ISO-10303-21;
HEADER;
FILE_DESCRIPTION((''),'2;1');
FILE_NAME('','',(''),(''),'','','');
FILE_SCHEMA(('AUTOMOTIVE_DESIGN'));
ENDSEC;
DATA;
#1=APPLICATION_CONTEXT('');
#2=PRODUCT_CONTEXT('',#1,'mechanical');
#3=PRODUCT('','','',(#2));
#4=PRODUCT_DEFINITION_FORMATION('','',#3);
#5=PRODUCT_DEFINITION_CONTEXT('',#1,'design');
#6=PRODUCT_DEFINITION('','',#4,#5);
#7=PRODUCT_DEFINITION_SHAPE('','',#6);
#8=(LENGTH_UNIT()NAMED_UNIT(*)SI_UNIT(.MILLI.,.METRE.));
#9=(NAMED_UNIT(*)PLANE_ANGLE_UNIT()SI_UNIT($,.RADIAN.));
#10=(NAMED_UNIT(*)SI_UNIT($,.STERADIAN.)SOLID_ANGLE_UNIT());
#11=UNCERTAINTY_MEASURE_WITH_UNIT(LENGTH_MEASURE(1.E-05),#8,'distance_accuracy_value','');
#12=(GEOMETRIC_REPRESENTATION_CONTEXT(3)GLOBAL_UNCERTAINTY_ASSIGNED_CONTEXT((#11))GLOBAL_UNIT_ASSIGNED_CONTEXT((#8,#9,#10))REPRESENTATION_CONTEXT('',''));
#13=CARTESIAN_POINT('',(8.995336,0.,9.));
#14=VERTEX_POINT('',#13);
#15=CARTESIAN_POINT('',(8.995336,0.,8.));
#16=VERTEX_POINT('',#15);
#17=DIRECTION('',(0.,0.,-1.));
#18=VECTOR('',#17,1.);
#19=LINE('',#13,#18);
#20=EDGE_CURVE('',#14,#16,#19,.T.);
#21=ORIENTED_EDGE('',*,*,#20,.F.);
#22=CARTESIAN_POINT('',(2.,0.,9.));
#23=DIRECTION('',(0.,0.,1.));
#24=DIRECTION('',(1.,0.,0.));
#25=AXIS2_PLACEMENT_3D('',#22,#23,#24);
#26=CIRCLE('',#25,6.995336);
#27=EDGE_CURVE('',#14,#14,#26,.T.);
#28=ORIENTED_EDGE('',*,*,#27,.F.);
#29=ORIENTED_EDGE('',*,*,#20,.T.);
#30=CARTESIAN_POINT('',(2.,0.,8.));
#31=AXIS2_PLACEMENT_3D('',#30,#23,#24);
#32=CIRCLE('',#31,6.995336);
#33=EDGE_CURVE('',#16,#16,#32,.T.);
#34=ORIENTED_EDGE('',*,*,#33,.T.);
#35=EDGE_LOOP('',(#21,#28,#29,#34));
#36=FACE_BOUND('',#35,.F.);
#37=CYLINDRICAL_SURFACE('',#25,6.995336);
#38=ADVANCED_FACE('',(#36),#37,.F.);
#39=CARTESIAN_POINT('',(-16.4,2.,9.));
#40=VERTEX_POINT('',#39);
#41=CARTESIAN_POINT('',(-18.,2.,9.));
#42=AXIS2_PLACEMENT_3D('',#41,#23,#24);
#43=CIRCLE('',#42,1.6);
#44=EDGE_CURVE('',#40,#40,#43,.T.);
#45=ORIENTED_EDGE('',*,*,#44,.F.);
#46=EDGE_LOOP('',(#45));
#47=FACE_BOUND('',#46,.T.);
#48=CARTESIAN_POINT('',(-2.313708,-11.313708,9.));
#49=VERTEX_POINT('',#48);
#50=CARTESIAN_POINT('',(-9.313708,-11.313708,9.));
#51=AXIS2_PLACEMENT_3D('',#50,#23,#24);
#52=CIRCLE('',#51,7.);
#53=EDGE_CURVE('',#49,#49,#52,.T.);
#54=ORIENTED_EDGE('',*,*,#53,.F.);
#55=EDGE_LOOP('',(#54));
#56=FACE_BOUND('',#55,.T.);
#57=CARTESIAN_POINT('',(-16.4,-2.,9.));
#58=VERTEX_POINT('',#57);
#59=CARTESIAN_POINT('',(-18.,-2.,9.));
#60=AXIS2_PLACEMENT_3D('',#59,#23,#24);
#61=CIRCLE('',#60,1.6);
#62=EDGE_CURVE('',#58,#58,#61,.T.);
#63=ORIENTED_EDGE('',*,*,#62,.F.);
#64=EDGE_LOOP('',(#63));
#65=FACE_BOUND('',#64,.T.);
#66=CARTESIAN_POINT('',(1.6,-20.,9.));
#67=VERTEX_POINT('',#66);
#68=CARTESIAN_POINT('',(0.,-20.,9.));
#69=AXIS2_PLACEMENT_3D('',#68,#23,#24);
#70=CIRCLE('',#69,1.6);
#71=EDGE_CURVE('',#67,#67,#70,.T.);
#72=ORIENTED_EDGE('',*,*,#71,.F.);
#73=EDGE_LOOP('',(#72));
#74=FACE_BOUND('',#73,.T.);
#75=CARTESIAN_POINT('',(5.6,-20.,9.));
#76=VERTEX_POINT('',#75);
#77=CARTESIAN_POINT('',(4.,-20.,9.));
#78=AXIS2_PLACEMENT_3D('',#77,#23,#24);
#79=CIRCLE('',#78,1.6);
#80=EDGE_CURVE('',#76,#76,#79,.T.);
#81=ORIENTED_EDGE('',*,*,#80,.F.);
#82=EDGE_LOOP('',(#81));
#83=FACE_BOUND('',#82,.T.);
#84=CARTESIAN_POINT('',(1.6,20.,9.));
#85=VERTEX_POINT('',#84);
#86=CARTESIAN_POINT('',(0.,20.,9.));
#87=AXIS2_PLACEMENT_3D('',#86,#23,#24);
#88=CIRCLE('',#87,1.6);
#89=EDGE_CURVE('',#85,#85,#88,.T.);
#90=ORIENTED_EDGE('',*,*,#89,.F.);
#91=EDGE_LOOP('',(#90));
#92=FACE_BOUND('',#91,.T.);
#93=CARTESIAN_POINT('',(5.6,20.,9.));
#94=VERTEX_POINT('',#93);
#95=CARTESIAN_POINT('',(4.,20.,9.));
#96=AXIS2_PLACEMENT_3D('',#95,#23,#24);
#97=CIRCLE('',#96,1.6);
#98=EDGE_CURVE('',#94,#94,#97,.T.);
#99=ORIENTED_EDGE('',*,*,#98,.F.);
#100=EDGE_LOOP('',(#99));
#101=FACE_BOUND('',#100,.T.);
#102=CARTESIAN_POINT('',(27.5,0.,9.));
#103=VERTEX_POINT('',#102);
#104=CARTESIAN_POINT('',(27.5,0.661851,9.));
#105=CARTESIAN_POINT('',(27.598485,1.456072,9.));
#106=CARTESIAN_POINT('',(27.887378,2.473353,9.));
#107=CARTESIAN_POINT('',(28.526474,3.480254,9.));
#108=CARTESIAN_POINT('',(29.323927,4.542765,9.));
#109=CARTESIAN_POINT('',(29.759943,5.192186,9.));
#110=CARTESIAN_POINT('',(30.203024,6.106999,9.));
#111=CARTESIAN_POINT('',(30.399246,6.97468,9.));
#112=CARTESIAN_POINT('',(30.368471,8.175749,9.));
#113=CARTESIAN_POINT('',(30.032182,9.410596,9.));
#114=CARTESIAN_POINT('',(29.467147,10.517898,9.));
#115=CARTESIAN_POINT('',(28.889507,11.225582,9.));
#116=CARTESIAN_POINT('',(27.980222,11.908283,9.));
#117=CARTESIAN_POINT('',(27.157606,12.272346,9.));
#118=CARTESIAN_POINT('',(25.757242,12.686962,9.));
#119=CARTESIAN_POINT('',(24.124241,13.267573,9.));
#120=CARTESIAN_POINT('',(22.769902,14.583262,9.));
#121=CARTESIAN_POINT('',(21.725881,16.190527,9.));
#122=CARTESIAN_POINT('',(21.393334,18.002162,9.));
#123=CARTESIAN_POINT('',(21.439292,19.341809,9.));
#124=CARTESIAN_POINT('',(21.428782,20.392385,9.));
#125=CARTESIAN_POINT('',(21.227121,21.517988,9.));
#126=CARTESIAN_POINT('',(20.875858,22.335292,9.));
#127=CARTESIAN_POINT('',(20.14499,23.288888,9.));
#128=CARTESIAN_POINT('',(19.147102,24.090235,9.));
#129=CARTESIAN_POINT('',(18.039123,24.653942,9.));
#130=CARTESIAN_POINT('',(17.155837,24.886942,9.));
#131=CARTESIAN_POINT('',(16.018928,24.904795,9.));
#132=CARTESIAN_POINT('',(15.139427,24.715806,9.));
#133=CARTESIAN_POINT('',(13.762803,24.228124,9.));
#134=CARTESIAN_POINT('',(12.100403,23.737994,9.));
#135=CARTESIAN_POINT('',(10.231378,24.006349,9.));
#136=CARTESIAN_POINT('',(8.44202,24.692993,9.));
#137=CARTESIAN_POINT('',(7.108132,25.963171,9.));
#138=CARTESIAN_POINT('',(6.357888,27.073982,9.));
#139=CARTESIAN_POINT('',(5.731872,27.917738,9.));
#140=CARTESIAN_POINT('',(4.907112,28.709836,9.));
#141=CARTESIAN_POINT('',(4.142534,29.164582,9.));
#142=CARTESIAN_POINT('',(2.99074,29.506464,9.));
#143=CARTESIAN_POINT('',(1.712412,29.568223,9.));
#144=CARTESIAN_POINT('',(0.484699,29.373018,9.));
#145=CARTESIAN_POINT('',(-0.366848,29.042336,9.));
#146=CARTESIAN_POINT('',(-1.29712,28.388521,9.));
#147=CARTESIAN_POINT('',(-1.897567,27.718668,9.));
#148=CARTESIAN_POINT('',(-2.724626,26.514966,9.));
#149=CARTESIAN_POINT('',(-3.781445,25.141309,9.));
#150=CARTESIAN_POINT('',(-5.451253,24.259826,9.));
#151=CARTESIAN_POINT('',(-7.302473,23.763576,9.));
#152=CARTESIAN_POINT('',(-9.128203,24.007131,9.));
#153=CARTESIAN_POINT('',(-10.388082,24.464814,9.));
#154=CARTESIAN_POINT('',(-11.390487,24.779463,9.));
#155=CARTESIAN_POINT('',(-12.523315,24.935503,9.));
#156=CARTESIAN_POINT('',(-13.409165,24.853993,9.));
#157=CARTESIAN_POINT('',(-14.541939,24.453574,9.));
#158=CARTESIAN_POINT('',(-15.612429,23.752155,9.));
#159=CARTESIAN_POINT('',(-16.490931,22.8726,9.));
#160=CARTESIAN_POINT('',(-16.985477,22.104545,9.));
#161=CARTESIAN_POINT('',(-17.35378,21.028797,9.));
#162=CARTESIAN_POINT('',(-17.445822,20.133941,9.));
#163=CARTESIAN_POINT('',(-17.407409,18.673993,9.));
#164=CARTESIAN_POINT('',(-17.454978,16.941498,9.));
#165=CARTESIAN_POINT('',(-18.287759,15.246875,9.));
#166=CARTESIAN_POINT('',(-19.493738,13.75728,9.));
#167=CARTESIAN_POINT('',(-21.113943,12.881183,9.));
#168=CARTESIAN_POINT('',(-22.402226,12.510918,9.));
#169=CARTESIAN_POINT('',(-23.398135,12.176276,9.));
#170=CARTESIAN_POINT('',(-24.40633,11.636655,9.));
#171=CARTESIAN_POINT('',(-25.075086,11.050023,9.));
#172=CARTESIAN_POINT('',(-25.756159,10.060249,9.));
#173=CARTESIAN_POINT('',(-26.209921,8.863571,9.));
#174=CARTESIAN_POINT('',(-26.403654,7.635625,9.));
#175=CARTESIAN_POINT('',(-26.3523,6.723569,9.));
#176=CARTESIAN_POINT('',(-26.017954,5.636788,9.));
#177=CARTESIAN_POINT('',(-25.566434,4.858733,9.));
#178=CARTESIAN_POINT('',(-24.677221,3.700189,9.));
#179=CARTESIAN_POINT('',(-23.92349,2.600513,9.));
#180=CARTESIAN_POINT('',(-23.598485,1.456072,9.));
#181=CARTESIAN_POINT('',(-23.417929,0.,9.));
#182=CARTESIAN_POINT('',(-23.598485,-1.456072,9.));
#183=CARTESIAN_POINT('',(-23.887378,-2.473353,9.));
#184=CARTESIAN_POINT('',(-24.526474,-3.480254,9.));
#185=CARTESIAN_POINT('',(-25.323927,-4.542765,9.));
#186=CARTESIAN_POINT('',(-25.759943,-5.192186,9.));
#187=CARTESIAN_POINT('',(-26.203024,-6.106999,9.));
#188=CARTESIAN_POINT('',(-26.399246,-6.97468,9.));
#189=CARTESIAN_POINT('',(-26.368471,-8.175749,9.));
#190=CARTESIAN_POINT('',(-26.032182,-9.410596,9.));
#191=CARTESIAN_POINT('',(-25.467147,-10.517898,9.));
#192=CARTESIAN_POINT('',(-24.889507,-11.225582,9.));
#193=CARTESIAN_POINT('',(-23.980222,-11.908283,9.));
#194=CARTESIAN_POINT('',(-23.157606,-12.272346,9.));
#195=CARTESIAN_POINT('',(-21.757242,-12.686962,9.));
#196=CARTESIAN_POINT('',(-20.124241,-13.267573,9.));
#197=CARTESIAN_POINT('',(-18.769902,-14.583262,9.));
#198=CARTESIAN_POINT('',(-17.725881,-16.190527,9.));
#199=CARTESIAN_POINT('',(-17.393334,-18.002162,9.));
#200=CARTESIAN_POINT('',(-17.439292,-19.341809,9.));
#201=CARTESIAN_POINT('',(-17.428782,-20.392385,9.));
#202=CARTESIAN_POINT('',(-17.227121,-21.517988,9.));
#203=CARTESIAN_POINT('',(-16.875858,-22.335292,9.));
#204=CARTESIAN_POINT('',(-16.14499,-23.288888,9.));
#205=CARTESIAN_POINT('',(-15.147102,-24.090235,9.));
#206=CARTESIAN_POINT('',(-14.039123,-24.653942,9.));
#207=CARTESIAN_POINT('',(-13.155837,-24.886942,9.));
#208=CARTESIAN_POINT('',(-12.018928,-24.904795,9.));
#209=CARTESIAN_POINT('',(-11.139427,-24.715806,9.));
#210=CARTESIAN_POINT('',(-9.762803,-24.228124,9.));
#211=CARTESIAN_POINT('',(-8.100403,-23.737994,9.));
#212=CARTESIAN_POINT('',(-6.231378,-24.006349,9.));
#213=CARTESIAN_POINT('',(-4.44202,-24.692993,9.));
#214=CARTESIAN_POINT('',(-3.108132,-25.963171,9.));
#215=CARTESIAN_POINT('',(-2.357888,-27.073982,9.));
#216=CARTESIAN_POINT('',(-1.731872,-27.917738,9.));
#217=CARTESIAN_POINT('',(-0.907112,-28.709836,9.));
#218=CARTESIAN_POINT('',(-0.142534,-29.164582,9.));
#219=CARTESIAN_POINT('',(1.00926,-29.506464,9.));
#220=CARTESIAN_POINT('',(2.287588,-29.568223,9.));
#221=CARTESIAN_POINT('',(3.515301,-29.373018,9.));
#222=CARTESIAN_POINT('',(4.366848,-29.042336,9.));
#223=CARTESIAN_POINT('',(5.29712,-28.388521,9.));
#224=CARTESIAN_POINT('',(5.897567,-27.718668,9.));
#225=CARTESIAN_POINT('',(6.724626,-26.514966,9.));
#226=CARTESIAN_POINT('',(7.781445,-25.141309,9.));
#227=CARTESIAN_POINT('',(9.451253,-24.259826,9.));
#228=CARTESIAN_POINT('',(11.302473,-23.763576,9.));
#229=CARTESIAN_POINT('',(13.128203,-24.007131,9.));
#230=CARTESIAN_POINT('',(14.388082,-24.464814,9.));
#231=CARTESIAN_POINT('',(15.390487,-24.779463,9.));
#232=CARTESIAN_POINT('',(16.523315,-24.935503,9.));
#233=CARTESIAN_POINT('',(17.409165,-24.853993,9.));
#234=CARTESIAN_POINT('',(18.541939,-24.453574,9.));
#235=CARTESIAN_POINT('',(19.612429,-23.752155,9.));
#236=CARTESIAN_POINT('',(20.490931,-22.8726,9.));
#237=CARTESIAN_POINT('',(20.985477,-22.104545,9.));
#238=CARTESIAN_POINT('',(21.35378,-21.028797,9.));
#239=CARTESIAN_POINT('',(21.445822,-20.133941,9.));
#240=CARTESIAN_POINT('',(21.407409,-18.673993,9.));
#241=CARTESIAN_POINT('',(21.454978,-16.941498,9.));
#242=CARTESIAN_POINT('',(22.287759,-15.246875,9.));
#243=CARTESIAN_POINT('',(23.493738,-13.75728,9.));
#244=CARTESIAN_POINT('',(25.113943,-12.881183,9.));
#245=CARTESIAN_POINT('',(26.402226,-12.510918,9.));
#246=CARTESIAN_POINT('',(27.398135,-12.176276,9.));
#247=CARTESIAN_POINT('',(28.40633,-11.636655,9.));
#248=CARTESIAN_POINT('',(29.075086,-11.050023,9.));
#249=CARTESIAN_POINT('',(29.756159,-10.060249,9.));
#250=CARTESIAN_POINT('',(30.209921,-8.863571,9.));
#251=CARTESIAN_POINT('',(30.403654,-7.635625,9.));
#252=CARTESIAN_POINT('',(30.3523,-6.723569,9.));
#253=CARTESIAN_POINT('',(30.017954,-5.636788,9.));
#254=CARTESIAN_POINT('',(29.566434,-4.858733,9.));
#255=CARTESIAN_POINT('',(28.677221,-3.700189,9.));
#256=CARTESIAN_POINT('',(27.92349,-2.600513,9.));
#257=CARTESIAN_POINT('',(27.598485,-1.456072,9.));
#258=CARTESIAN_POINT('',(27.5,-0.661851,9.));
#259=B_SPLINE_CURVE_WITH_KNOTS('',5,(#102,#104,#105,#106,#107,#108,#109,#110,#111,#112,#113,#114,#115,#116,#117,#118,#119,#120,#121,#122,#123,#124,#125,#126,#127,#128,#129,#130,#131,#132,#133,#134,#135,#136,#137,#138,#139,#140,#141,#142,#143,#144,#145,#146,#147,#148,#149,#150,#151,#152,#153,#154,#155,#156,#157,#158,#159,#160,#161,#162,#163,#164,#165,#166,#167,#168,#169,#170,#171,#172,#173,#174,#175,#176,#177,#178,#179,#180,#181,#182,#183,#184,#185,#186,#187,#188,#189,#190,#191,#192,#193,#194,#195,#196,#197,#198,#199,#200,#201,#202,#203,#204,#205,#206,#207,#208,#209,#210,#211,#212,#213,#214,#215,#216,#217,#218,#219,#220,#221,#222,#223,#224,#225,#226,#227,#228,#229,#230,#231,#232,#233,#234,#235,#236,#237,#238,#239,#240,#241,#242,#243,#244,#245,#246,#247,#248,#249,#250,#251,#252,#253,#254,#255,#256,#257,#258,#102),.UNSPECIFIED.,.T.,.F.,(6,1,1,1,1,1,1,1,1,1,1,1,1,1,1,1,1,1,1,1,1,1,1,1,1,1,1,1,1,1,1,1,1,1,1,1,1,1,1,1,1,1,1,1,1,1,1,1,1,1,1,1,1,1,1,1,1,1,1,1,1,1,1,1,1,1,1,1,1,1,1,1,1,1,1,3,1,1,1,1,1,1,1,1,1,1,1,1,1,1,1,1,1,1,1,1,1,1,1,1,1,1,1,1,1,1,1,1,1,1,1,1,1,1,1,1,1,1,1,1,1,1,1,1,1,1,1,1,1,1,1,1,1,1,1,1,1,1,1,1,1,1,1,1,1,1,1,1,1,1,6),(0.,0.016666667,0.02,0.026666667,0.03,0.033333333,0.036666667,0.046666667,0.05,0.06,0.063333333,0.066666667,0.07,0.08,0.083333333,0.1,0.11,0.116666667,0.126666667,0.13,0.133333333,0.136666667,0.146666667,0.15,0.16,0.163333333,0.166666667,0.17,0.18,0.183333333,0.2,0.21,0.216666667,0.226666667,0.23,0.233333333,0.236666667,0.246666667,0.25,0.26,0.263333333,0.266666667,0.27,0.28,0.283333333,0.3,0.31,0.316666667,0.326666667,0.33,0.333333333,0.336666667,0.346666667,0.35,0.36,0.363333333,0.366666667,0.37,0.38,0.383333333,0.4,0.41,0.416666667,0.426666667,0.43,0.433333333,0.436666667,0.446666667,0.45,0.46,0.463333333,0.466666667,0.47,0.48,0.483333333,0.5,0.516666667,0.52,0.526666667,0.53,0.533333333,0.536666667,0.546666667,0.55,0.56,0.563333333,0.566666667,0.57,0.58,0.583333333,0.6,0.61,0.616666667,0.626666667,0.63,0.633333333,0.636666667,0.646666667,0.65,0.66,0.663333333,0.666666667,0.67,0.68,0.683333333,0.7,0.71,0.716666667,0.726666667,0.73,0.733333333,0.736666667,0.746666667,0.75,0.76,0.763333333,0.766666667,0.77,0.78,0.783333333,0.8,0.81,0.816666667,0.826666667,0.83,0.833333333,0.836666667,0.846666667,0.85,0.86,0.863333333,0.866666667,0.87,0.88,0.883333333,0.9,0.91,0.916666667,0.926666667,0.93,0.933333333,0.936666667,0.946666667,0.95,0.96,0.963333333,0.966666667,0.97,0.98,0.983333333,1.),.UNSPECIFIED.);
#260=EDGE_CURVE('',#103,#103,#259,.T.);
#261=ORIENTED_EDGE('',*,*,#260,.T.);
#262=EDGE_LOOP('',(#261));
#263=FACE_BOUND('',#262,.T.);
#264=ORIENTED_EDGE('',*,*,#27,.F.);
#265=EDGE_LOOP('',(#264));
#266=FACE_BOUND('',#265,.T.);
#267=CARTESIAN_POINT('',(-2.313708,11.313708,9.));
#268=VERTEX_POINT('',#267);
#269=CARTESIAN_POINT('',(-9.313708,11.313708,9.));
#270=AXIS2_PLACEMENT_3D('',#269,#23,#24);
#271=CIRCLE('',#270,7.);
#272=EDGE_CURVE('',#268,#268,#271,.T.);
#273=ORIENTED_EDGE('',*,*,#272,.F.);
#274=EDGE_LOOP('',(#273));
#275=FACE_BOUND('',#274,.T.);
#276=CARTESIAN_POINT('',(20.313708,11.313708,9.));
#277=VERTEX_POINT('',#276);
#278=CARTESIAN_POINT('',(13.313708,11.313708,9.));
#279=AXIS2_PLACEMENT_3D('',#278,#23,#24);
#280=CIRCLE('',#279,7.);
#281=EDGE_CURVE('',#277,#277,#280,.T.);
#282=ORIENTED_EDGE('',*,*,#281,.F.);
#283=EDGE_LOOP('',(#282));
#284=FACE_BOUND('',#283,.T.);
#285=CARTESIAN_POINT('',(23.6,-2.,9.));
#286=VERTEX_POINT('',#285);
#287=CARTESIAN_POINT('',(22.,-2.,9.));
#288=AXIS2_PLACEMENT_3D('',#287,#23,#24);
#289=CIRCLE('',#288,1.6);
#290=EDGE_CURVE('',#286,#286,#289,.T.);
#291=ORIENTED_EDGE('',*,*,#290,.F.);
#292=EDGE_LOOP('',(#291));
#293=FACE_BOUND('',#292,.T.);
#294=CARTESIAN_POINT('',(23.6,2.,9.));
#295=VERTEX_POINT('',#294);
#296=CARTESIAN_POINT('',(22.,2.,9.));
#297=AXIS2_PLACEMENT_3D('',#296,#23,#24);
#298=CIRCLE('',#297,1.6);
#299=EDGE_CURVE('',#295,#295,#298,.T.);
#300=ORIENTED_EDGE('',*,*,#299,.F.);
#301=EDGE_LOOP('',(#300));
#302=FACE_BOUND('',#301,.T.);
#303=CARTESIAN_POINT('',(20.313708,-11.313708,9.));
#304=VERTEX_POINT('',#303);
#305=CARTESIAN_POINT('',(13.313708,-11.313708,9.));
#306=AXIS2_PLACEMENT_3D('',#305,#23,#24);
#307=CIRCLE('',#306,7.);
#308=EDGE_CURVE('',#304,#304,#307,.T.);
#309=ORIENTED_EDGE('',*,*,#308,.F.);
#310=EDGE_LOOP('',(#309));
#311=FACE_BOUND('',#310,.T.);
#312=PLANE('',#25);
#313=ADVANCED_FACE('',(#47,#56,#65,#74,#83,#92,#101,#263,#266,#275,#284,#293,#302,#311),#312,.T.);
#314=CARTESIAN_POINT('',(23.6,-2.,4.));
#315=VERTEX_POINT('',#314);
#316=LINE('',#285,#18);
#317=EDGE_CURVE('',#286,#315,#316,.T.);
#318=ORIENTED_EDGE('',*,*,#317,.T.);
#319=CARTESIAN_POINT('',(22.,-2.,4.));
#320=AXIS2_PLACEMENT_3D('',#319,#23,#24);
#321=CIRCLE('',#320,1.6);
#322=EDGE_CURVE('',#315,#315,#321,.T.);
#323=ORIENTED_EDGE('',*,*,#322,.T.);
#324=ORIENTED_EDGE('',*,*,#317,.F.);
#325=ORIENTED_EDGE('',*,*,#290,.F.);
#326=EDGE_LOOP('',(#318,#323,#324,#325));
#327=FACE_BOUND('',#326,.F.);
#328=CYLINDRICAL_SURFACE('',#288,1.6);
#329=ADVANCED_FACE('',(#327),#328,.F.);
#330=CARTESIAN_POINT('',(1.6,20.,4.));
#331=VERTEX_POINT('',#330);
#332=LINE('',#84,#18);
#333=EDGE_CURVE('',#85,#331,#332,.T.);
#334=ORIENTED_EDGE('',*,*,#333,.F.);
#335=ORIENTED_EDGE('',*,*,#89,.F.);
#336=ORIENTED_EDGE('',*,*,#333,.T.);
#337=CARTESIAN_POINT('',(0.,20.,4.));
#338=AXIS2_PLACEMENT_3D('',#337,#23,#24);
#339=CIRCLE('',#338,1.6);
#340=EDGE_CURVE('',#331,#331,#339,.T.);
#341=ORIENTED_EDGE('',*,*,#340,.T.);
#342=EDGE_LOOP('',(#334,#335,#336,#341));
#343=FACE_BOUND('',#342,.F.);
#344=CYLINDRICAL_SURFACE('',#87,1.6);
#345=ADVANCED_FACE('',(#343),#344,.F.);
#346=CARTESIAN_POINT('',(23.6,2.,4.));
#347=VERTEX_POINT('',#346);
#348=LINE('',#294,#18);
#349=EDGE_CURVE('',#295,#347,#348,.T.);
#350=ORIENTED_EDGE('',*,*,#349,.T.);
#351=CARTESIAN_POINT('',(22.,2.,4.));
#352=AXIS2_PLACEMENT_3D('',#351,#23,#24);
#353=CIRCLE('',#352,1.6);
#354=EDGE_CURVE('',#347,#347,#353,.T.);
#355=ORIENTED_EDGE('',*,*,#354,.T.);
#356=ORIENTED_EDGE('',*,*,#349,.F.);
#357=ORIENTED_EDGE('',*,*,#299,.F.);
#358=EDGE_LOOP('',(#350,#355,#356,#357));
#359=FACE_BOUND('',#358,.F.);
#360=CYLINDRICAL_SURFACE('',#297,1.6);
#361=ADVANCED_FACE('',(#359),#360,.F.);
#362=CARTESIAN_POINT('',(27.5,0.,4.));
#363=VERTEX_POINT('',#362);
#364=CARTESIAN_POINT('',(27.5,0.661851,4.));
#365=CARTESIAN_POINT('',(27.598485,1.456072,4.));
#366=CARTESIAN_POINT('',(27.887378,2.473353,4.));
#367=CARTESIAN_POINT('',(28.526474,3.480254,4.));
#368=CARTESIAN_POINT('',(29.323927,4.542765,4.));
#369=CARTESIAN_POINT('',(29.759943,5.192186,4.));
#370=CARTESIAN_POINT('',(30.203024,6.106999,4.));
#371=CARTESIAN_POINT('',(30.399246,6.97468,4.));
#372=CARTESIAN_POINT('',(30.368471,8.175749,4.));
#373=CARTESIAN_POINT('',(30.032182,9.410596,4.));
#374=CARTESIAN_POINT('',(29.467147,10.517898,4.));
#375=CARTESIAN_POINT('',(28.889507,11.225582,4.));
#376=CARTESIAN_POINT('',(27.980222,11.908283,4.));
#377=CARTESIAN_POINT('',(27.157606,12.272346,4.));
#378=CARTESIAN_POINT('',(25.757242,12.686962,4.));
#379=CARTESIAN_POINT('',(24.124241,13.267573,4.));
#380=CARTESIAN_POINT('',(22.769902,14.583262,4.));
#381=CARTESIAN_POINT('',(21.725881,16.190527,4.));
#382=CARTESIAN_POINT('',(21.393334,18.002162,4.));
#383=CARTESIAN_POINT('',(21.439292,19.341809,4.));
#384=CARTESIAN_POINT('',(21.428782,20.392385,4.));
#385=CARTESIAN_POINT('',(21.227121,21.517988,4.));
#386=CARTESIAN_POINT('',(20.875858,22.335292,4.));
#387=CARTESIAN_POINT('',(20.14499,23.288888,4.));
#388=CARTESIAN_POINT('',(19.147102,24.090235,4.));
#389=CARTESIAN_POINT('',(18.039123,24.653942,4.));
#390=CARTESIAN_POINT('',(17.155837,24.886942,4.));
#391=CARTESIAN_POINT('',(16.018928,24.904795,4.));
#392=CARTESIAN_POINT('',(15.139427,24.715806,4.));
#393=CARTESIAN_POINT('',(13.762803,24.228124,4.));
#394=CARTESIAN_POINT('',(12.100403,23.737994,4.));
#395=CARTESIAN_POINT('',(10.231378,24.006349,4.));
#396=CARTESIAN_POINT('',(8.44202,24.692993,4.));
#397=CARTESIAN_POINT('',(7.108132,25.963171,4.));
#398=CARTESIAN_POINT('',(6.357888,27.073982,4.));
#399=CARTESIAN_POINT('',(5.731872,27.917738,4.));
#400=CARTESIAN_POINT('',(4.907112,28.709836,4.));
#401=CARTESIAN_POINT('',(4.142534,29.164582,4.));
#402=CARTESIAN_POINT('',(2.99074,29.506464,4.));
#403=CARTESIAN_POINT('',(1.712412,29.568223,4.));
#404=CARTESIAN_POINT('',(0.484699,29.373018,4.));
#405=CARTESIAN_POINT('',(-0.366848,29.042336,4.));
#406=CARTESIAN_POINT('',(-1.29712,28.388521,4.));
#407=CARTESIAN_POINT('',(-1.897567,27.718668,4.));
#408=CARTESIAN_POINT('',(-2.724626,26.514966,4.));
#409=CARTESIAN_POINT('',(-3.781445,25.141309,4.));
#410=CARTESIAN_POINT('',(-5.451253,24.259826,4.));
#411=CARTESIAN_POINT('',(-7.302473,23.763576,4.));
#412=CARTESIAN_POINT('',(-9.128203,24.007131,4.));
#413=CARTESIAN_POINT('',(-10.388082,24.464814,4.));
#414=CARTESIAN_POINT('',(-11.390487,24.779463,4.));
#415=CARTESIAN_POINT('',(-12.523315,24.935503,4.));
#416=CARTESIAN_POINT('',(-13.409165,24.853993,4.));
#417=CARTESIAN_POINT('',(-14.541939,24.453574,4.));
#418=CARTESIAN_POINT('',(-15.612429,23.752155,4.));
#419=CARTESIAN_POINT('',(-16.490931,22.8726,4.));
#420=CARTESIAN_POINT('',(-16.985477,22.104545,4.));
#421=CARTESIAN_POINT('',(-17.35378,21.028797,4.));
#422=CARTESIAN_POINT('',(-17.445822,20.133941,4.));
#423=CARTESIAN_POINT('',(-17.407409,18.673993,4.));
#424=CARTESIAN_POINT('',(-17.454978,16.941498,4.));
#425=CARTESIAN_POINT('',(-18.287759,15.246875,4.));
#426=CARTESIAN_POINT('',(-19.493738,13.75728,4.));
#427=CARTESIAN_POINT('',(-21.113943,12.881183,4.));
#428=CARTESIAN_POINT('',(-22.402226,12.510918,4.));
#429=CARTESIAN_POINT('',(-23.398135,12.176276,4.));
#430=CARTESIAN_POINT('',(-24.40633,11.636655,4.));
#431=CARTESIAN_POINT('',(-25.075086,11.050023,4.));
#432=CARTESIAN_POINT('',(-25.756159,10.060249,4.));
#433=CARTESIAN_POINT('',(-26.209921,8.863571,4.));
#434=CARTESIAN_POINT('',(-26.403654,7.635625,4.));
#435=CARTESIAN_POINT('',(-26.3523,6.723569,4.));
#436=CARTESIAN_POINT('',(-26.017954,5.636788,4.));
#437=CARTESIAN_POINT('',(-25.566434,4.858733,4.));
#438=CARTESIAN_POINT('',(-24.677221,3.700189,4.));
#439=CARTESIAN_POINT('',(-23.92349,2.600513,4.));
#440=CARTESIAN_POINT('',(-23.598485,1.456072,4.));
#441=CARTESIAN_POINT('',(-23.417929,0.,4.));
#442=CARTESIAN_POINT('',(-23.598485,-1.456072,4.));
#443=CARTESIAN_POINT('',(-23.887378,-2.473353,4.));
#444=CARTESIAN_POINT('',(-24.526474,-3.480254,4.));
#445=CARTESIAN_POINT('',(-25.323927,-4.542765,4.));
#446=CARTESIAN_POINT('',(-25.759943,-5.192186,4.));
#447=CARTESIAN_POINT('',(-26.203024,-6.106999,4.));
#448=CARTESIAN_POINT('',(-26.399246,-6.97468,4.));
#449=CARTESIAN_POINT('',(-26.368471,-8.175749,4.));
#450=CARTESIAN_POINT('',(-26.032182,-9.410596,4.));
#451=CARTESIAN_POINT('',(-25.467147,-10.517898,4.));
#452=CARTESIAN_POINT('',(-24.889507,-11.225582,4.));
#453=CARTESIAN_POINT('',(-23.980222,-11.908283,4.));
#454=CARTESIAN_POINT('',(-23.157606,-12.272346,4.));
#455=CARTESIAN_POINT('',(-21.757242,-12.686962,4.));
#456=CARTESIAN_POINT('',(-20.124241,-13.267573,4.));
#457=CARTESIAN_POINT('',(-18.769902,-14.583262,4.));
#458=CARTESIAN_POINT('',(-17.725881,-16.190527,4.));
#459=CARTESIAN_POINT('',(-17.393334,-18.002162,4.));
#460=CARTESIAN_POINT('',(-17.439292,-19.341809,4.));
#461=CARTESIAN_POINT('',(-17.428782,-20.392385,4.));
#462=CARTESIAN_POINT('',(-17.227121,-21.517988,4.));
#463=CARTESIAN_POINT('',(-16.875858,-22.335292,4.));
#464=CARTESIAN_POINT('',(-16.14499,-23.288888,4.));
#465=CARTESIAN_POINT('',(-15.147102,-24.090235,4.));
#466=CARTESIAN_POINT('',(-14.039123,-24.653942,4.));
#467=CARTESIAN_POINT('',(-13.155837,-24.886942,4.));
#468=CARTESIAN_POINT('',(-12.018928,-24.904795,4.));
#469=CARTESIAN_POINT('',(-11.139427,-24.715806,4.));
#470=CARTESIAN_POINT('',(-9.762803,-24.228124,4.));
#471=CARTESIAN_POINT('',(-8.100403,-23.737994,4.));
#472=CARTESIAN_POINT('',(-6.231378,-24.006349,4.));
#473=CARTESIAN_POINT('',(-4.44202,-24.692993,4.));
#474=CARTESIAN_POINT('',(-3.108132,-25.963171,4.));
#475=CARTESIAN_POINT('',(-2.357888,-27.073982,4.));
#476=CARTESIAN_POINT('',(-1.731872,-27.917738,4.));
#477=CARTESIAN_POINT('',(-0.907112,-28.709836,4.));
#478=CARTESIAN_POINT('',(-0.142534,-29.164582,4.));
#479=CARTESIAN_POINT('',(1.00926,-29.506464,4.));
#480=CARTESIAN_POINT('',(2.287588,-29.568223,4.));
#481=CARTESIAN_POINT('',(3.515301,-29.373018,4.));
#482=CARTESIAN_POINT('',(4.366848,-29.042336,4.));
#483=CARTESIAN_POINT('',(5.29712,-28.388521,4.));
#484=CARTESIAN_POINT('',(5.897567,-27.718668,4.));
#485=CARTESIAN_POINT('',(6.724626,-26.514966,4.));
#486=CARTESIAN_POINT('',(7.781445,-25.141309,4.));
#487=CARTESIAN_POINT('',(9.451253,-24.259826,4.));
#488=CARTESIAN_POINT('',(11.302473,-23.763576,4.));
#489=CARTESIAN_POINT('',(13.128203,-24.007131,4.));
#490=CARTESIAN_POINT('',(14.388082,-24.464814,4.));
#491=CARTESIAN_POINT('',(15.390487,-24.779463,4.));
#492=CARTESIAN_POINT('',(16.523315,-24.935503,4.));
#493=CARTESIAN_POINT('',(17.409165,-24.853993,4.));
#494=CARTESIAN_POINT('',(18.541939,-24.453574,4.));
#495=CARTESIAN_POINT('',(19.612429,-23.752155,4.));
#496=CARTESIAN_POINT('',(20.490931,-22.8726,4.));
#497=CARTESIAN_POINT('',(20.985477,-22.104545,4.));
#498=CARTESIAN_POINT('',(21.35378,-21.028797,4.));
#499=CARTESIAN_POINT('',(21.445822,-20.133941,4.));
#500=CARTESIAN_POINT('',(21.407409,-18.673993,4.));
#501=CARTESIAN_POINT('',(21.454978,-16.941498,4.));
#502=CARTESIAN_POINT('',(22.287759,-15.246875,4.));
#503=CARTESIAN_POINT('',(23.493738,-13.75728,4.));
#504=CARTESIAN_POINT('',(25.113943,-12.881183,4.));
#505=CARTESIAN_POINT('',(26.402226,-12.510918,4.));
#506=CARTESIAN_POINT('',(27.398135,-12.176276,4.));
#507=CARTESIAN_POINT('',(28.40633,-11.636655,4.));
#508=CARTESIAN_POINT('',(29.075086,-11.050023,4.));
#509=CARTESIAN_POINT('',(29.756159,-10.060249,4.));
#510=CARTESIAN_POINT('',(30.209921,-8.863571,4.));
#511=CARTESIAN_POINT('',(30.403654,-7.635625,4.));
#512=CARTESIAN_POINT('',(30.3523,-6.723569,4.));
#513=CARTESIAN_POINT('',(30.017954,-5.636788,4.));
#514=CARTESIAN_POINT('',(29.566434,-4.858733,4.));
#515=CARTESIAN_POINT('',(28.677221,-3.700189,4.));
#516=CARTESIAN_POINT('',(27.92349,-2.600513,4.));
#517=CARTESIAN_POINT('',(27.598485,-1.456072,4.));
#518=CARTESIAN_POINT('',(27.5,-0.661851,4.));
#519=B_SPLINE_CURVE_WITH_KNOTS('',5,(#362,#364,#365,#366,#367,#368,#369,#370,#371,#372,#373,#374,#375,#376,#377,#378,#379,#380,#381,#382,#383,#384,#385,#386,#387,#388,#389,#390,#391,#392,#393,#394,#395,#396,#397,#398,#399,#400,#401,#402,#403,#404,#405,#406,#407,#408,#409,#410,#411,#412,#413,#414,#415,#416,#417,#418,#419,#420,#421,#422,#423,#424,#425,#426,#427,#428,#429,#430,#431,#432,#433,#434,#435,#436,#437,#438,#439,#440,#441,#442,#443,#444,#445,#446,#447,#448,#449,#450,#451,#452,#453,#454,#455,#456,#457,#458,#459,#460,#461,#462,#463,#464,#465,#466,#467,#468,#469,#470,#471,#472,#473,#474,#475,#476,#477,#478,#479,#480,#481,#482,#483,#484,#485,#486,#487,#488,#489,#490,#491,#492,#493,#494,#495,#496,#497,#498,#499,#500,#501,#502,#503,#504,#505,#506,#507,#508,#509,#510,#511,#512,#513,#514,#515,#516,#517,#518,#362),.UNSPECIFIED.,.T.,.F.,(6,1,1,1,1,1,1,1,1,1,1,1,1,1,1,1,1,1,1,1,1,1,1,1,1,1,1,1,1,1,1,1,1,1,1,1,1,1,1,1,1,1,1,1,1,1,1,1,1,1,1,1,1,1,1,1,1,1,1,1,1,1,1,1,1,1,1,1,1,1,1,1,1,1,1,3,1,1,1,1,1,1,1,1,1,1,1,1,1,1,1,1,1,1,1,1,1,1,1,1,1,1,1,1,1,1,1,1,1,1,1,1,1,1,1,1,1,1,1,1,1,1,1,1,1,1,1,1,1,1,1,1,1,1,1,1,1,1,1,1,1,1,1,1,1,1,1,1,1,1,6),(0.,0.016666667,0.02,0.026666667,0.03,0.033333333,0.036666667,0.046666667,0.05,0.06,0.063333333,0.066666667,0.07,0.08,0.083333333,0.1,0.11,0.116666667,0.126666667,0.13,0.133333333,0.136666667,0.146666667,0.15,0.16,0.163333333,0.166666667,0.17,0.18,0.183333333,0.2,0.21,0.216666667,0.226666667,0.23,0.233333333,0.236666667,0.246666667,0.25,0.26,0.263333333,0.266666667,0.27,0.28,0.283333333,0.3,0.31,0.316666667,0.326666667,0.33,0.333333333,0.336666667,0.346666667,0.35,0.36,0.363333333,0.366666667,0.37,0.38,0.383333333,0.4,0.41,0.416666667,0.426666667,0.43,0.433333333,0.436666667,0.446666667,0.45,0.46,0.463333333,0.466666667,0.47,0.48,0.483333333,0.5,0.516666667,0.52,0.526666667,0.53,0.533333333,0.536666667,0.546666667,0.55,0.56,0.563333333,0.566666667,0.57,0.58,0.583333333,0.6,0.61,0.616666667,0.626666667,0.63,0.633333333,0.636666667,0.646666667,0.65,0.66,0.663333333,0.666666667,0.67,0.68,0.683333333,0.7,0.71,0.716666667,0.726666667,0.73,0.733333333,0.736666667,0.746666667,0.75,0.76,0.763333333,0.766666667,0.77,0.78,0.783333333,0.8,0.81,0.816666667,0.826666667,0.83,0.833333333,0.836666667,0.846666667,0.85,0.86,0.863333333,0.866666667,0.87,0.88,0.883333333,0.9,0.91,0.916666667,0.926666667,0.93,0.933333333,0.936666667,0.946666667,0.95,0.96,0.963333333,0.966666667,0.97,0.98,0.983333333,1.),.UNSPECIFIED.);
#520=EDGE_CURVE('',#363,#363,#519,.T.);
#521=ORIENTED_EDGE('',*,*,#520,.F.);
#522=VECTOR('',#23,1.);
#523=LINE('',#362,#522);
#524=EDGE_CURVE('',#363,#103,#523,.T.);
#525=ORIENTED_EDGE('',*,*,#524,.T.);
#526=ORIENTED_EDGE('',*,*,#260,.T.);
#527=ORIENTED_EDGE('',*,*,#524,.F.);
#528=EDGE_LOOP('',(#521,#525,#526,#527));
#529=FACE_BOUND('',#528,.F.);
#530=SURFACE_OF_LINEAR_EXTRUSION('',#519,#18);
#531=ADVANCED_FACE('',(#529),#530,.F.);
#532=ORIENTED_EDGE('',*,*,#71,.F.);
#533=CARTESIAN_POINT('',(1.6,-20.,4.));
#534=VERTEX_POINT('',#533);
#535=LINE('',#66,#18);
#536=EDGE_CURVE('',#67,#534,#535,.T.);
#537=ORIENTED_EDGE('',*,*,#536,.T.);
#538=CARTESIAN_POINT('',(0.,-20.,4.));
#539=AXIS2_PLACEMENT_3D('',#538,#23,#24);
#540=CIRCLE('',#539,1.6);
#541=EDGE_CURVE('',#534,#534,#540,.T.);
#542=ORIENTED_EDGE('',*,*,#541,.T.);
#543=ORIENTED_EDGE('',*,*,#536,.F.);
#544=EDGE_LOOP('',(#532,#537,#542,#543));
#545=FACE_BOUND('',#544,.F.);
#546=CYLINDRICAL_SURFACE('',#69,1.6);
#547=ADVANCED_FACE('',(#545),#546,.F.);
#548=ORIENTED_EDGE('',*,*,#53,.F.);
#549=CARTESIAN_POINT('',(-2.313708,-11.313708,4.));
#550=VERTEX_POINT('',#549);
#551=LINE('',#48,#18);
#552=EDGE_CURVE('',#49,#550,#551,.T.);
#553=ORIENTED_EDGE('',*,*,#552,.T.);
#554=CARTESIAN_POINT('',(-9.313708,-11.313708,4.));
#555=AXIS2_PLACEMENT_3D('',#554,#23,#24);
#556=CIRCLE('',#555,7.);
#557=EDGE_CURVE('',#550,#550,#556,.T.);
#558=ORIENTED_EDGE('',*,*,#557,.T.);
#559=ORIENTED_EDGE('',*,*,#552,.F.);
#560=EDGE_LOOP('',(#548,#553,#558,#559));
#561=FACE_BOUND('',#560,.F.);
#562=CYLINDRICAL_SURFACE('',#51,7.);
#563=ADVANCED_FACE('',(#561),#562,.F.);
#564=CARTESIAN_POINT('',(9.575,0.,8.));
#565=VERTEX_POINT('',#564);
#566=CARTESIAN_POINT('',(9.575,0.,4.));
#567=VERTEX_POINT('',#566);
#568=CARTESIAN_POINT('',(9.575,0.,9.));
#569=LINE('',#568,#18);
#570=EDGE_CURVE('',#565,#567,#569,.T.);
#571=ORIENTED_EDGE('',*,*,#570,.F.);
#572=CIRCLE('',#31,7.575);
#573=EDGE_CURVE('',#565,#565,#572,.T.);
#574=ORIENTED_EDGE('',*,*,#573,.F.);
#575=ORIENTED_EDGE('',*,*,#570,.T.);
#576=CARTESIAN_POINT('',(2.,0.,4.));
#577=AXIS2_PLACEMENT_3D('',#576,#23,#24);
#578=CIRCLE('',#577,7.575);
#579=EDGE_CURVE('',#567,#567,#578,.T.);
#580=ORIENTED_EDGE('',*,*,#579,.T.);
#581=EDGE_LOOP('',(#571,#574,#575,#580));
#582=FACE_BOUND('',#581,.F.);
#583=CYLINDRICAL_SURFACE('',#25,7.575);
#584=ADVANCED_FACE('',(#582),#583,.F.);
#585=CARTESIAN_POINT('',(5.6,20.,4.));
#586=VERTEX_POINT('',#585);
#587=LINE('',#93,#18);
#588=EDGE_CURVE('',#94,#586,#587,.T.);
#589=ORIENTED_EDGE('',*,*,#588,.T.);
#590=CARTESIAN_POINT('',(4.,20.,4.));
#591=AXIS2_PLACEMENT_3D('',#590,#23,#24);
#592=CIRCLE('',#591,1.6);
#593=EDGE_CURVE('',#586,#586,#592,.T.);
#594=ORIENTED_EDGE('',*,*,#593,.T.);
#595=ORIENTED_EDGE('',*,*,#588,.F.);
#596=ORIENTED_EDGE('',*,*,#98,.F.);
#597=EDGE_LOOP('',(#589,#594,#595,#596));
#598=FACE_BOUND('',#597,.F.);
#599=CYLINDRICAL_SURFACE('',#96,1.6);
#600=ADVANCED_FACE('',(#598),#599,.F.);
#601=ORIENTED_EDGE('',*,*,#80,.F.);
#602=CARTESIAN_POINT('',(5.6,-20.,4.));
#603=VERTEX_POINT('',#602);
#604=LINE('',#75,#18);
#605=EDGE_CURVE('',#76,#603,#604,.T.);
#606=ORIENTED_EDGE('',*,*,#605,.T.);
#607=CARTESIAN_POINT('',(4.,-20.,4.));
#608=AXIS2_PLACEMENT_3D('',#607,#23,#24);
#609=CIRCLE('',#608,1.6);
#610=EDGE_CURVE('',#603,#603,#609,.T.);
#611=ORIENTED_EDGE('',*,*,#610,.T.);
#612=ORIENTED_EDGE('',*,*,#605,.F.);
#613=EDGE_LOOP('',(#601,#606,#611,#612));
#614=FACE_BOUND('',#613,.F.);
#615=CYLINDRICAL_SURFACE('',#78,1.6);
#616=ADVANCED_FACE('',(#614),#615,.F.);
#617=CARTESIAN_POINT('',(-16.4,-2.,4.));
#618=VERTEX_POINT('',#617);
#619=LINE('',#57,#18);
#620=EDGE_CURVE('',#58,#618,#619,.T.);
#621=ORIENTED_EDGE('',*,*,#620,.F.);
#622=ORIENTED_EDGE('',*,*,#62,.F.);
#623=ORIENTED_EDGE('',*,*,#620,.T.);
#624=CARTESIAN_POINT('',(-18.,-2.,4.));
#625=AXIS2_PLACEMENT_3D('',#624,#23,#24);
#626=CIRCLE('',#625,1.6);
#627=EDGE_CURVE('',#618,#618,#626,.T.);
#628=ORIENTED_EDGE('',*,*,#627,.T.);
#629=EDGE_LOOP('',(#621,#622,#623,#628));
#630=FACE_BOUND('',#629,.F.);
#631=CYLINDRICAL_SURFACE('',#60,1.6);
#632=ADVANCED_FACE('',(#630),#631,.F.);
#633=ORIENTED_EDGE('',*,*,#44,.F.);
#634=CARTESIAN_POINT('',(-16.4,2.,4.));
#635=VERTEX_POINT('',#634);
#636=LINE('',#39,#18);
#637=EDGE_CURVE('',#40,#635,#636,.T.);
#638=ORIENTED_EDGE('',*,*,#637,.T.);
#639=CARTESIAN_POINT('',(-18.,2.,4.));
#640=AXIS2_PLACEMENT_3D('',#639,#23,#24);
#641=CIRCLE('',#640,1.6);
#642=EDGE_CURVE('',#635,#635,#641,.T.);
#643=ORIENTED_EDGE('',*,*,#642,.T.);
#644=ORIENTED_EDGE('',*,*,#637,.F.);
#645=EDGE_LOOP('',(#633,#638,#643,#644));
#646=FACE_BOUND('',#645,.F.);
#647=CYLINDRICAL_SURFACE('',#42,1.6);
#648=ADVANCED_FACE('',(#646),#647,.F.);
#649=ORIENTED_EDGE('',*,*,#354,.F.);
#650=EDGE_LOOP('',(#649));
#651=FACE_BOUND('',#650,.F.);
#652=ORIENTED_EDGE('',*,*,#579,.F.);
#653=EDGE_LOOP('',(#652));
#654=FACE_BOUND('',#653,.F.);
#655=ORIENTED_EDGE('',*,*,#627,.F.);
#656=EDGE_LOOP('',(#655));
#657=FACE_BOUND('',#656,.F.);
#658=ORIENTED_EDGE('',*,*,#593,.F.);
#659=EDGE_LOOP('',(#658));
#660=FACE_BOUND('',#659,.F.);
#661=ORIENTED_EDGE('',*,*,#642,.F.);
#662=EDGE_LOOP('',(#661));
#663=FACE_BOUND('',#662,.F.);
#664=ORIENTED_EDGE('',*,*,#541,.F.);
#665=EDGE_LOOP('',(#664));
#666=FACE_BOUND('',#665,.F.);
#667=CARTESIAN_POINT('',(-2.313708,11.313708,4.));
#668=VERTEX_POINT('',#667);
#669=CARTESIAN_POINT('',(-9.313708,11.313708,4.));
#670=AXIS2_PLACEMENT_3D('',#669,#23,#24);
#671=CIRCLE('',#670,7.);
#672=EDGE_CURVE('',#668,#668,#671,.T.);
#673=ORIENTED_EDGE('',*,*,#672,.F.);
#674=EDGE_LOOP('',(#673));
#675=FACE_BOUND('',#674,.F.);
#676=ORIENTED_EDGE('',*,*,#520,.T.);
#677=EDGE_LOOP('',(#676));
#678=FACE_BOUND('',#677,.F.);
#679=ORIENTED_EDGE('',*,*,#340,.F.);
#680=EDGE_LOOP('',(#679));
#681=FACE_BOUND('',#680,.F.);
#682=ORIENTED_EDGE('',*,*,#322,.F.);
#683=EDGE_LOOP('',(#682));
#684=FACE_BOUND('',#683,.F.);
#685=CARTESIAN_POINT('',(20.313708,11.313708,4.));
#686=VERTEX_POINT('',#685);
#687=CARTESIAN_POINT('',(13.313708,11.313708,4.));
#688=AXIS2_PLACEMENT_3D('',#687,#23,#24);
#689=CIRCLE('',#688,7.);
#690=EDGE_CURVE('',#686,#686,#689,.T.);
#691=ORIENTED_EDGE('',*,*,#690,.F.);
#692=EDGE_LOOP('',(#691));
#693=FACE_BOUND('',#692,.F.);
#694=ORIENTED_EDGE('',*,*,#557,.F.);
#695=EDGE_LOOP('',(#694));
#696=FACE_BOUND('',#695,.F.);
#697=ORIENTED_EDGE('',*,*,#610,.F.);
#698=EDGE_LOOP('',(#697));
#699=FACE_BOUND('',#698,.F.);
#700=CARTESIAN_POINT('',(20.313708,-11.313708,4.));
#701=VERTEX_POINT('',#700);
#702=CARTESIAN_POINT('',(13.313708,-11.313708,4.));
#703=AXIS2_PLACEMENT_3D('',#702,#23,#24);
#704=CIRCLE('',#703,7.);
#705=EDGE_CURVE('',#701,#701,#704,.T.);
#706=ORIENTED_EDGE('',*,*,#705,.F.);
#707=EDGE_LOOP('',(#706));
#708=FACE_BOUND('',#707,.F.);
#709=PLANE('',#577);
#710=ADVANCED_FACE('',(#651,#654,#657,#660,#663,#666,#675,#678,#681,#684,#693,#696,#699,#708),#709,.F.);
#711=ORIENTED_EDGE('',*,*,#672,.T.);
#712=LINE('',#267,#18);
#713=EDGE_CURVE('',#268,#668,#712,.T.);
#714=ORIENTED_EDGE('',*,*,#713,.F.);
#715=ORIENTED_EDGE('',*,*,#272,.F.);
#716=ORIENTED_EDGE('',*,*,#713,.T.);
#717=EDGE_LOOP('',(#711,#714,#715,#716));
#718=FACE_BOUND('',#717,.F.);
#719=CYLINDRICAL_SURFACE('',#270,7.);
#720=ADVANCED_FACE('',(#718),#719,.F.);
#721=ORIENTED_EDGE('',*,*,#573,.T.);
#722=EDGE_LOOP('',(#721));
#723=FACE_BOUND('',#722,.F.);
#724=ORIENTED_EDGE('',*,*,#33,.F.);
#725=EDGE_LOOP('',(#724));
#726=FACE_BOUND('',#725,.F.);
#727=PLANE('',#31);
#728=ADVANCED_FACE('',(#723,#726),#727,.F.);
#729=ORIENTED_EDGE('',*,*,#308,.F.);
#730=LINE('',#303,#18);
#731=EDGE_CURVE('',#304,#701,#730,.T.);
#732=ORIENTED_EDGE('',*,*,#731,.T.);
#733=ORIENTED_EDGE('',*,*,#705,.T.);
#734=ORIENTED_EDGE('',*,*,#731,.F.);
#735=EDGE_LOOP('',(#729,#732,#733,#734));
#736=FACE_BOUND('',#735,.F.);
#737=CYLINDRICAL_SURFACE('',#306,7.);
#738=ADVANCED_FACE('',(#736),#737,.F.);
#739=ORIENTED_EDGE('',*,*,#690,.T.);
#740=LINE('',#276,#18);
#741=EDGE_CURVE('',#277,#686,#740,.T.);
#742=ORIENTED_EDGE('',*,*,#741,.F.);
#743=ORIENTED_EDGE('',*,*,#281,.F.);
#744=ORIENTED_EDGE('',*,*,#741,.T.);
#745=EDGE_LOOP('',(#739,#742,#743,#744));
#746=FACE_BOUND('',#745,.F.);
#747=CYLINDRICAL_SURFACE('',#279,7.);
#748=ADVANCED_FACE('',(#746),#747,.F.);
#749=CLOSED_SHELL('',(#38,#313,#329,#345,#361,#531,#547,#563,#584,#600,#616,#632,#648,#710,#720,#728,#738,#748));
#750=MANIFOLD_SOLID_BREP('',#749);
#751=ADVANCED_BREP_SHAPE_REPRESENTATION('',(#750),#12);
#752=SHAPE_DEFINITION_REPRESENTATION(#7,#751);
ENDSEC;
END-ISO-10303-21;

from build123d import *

# Parameters (mm, degrees)
SKETCH3_R                  = 7.5
CYC_DISK_DEPTH             = 5
SKETCH6_R                  = 7.575
CAM_BEARING_DEPTH          = 43.617229285
SKETCH7_R                  = 7
OUTPUT_HOLES_DEPTH         = 43.617229285
SKETCH8_R                  = 7.575
SKETCH8_R_2                = 6.995336342
CAM_BEARING_RETAINER_DEPTH = 1
SKETCH9_R                  = 1.6
POSITIONING_HOLES_DEPTH    = 43.617229285


with BuildPart() as part:
    # Sketch3 → CYC Disk (new body)
    with BuildSketch(Plane.XY.offset(4)):
        with BuildLine():
            add(Edge.make_bspline(
                [(-23.5, 0), (-23.500000004, -0.661850826), (-23.598485334, -1.456071804), (-23.887378462, -2.473353009), (-24.526473508, -3.480254489), (-25.323926988, -4.542764949), (-25.759943157, -5.192186221), (-26.203023639, -6.106999259), (-26.399245523, -6.974680154), (-26.368470738, -8.175748768), (-26.032181523, -9.410596043), (-25.46714701, -10.517898357), (-24.88950703, -11.225581762), (-23.980221887, -11.908283091), (-23.157605578, -12.27234585), (-21.75724169, -12.686961807), (-20.124240836, -13.267572581), (-18.769902135, -14.583261804), (-17.725881209, -16.190526715), (-17.393334278, -18.002161758), (-17.43929245, -19.341809491), (-17.428782036, -20.39238515), (-17.227121316, -21.51798755), (-16.875858121, -22.335292469), (-16.144990379, -23.288888425), (-15.147101673, -24.090235015), (-14.039123179, -24.653942451), (-13.15583675, -24.886942091), (-12.018927843, -24.904794671), (-11.139426548, -24.715805895), (-9.76280322, -24.22812401), (-8.100403327, -23.737994173), (-6.23137758, -24.006348799), (-4.442020297, -24.692993323), (-3.108131817, -25.963170679), (-2.357887579, -27.073981998), (-1.731871597, -27.917737693), (-0.907112157, -28.709835967), (-0.142534485, -29.16458221), (1.009259579, -29.506464264), (2.287588208, -29.568223008), (3.515300557, -29.373018486), (4.366848041, -29.042336417), (5.297120151, -28.388521169), (5.89756683, -27.718668148), (6.724626277, -26.514966324), (7.781444952, -25.141308816), (9.451253436, -24.259826499), (11.302473412, -23.763575766), (13.128203378, -24.007130856), (14.388082228, -24.464813592), (15.39048695, -24.779463326), (16.523315038, -24.935502855), (17.409164503, -24.853992814), (18.541938704, -24.453573642), (19.612429169, -23.752154799), (20.490930983, -22.872599811), (20.985477327, -22.104545345), (21.353780313, -21.028797471), (21.445822153, -20.13394129), (21.40740912, -18.673992713), (21.454977764, -16.941498013), (22.287758898, -15.246875037), (23.493738457, -13.75727996), (25.113943117, -12.881183019), (26.402225679, -12.510917922), (27.398134609, -12.176276192), (28.406329517, -11.63665518), (29.075086389, -11.05002292), (29.756159484, -10.060249035), (30.209920811, -8.863570763), (30.403654258, -7.63562542), (30.352299566, -6.723569256), (30.017954205, -5.636787881), (29.566434352, -4.858733188), (28.677221314, -3.700188592), (27.92348978, -2.600513359), (27.598485315, -1.456071829), (27.499999996, -0.661850826), (27.5, 0)],
                knots=[0.5, 0.5, 0.5, 0.5, 0.5, 0.5, 0.516666667, 0.52, 0.526666667, 0.53, 0.533333333, 0.536666667, 0.546666667, 0.55, 0.56, 0.563333333, 0.566666667, 0.57, 0.58, 0.583333333, 0.6, 0.61, 0.616666667, 0.626666667, 0.63, 0.633333333, 0.636666667, 0.646666667, 0.65, 0.66, 0.663333333, 0.666666667, 0.67, 0.68, 0.683333333, 0.7, 0.71, 0.716666667, 0.726666667, 0.73, 0.733333333, 0.736666667, 0.746666667, 0.75, 0.76, 0.763333333, 0.766666667, 0.77, 0.78, 0.783333333, 0.8, 0.81, 0.816666667, 0.826666667, 0.83, 0.833333333, 0.836666667, 0.846666667, 0.85, 0.86, 0.863333333, 0.866666667, 0.87, 0.88, 0.883333333, 0.9, 0.91, 0.916666667, 0.926666667, 0.93, 0.933333333, 0.936666667, 0.946666667, 0.95, 0.96, 0.963333333, 0.966666667, 0.97, 0.98, 0.983333333, 1, 1, 1, 1, 1, 1], degree=5, weights=[1, 1, 1, 1, 1, 1, 1, 1, 1, 1, 1, 1, 1, 1, 1, 1, 1, 1, 1, 1, 1, 1, 1, 1, 1, 1, 1, 1, 1, 1, 1, 1, 1, 1, 1, 1, 1, 1, 1, 1, 1, 1, 1, 1, 1, 1, 1, 1, 1, 1, 1, 1, 1, 1, 1, 1, 1, 1, 1, 1, 1, 1, 1, 1, 1, 1, 1, 1, 1, 1, 1, 1, 1, 1, 1, 1, 1, 1, 1, 1]))
            add(Edge.make_bspline(
                [(27.5, 0), (27.500000004, 0.661850826), (27.598485335, 1.456071804), (27.887378462, 2.473353009), (28.526473508, 3.480254489), (29.323926988, 4.542764949), (29.759943157, 5.192186221), (30.203023639, 6.106999259), (30.399245523, 6.974680154), (30.368470738, 8.175748768), (30.032181523, 9.410596043), (29.46714701, 10.517898357), (28.88950703, 11.225581762), (27.980221887, 11.908283091), (27.157605578, 12.27234585), (25.75724169, 12.686961807), (24.124240836, 13.267572581), (22.769902135, 14.583261804), (21.725881209, 16.190526715), (21.393334278, 18.002161758), (21.43929245, 19.341809491), (21.428782036, 20.39238515), (21.227121316, 21.51798755), (20.875858121, 22.335292469), (20.144990379, 23.288888425), (19.147101673, 24.090235015), (18.039123179, 24.653942451), (17.15583675, 24.886942091), (16.018927843, 24.904794671), (15.139426548, 24.715805895), (13.76280322, 24.22812401), (12.100403327, 23.737994173), (10.23137758, 24.006348799), (8.442020297, 24.692993323), (7.108131817, 25.963170679), (6.357887579, 27.073981998), (5.731871597, 27.917737693), (4.907112157, 28.709835967), (4.142534485, 29.16458221), (2.990740421, 29.506464264), (1.712411792, 29.568223008), (0.484699443, 29.373018486), (-0.366848041, 29.042336417), (-1.297120151, 28.388521169), (-1.89756683, 27.718668148), (-2.724626277, 26.514966324), (-3.781444952, 25.141308816), (-5.451253436, 24.259826499), (-7.302473412, 23.763575766), (-9.128203378, 24.007130856), (-10.388082228, 24.464813592), (-11.39048695, 24.779463326), (-12.523315038, 24.935502855), (-13.409164503, 24.853992814), (-14.541938704, 24.453573642), (-15.612429169, 23.752154799), (-16.490930983, 22.872599811), (-16.985477327, 22.104545345), (-17.353780313, 21.028797471), (-17.445822153, 20.13394129), (-17.40740912, 18.673992713), (-17.454977764, 16.941498013), (-18.287758898, 15.246875037), (-19.493738457, 13.75727996), (-21.113943117, 12.881183019), (-22.402225679, 12.510917922), (-23.398134609, 12.176276192), (-24.406329517, 11.63665518), (-25.075086389, 11.05002292), (-25.756159484, 10.060249035), (-26.209920811, 8.863570763), (-26.403654258, 7.63562542), (-26.352299566, 6.723569256), (-26.017954205, 5.636787881), (-25.566434352, 4.858733188), (-24.677221314, 3.700188592), (-23.92348978, 2.600513359), (-23.598485314, 1.456071829), (-23.499999996, 0.661850826), (-23.5, 0)],
                knots=[0, 0, 0, 0, 0, 0, 0.016666667, 0.02, 0.026666667, 0.03, 0.033333333, 0.036666667, 0.046666667, 0.05, 0.06, 0.063333333, 0.066666667, 0.07, 0.08, 0.083333333, 0.1, 0.11, 0.116666667, 0.126666667, 0.13, 0.133333333, 0.136666667, 0.146666667, 0.15, 0.16, 0.163333333, 0.166666667, 0.17, 0.18, 0.183333333, 0.2, 0.21, 0.216666667, 0.226666667, 0.23, 0.233333333, 0.236666667, 0.246666667, 0.25, 0.26, 0.263333333, 0.266666667, 0.27, 0.28, 0.283333333, 0.3, 0.31, 0.316666667, 0.326666667, 0.33, 0.333333333, 0.336666667, 0.346666667, 0.35, 0.36, 0.363333333, 0.366666667, 0.37, 0.38, 0.383333333, 0.4, 0.41, 0.416666667, 0.426666667, 0.43, 0.433333333, 0.436666667, 0.446666667, 0.45, 0.46, 0.463333333, 0.466666667, 0.47, 0.48, 0.483333333, 0.5, 0.5, 0.5, 0.5, 0.5, 0.5], degree=5, weights=[1, 1, 1, 1, 1, 1, 1, 1, 1, 1, 1, 1, 1, 1, 1, 1, 1, 1, 1, 1, 1, 1, 1, 1, 1, 1, 1, 1, 1, 1, 1, 1, 1, 1, 1, 1, 1, 1, 1, 1, 1, 1, 1, 1, 1, 1, 1, 1, 1, 1, 1, 1, 1, 1, 1, 1, 1, 1, 1, 1, 1, 1, 1, 1, 1, 1, 1, 1, 1, 1, 1, 1, 1, 1, 1, 1, 1, 1, 1, 1]))
        make_face()
        with Locations((2, 0)):
            Circle(SKETCH3_R, mode=Mode.SUBTRACT)
    extrude(amount=CYC_DISK_DEPTH)

    # Sketch6 → Cam Bearing (cut, through all)
    with BuildSketch(Plane.XY.offset(9)):
        with Locations((2, 0)):
            Circle(SKETCH6_R)
    extrude(amount=-CAM_BEARING_DEPTH, mode=Mode.SUBTRACT)

    # Sketch7 → Output Holes (cut, through all)
    with BuildSketch(Plane.XY.offset(9)):
        with Locations((13.313708499, 11.313708499)):
            Circle(SKETCH7_R)
        with Locations((13.313708499, -11.313708499)):
            Circle(SKETCH7_R)
        with Locations((-9.313708499, -11.313708499)):
            Circle(SKETCH7_R)
        with Locations((-9.313708499, 11.313708499)):
            Circle(SKETCH7_R)
    extrude(amount=-OUTPUT_HOLES_DEPTH, mode=Mode.SUBTRACT)

    # Sketch8 → Cam Bearing Retainer (add)
    with BuildSketch(Plane.XY.offset(9)):
        with Locations((2, 0)):
            Circle(SKETCH8_R)
        with Locations((2, 0)):
            Circle(SKETCH8_R_2, mode=Mode.SUBTRACT)
    extrude(amount=-CAM_BEARING_RETAINER_DEPTH)

    # Sketch9 → Positioning Holes (cut, through all)
    with BuildSketch(Plane.XY.offset(9)):
        with Locations((0, 20)):
            Circle(SKETCH9_R)
        with Locations((4, 20)):
            Circle(SKETCH9_R)
        with Locations((22, -2)):
            Circle(SKETCH9_R)
        with Locations((22, 2)):
            Circle(SKETCH9_R)
        with Locations((0, -20)):
            Circle(SKETCH9_R)
        with Locations((4, -20)):
            Circle(SKETCH9_R)
        with Locations((-18, 2)):
            Circle(SKETCH9_R)
        with Locations((-18, -2)):
            Circle(SKETCH9_R)
    extrude(amount=-POSITIONING_HOLES_DEPTH, mode=Mode.SUBTRACT)


solid = part.part
